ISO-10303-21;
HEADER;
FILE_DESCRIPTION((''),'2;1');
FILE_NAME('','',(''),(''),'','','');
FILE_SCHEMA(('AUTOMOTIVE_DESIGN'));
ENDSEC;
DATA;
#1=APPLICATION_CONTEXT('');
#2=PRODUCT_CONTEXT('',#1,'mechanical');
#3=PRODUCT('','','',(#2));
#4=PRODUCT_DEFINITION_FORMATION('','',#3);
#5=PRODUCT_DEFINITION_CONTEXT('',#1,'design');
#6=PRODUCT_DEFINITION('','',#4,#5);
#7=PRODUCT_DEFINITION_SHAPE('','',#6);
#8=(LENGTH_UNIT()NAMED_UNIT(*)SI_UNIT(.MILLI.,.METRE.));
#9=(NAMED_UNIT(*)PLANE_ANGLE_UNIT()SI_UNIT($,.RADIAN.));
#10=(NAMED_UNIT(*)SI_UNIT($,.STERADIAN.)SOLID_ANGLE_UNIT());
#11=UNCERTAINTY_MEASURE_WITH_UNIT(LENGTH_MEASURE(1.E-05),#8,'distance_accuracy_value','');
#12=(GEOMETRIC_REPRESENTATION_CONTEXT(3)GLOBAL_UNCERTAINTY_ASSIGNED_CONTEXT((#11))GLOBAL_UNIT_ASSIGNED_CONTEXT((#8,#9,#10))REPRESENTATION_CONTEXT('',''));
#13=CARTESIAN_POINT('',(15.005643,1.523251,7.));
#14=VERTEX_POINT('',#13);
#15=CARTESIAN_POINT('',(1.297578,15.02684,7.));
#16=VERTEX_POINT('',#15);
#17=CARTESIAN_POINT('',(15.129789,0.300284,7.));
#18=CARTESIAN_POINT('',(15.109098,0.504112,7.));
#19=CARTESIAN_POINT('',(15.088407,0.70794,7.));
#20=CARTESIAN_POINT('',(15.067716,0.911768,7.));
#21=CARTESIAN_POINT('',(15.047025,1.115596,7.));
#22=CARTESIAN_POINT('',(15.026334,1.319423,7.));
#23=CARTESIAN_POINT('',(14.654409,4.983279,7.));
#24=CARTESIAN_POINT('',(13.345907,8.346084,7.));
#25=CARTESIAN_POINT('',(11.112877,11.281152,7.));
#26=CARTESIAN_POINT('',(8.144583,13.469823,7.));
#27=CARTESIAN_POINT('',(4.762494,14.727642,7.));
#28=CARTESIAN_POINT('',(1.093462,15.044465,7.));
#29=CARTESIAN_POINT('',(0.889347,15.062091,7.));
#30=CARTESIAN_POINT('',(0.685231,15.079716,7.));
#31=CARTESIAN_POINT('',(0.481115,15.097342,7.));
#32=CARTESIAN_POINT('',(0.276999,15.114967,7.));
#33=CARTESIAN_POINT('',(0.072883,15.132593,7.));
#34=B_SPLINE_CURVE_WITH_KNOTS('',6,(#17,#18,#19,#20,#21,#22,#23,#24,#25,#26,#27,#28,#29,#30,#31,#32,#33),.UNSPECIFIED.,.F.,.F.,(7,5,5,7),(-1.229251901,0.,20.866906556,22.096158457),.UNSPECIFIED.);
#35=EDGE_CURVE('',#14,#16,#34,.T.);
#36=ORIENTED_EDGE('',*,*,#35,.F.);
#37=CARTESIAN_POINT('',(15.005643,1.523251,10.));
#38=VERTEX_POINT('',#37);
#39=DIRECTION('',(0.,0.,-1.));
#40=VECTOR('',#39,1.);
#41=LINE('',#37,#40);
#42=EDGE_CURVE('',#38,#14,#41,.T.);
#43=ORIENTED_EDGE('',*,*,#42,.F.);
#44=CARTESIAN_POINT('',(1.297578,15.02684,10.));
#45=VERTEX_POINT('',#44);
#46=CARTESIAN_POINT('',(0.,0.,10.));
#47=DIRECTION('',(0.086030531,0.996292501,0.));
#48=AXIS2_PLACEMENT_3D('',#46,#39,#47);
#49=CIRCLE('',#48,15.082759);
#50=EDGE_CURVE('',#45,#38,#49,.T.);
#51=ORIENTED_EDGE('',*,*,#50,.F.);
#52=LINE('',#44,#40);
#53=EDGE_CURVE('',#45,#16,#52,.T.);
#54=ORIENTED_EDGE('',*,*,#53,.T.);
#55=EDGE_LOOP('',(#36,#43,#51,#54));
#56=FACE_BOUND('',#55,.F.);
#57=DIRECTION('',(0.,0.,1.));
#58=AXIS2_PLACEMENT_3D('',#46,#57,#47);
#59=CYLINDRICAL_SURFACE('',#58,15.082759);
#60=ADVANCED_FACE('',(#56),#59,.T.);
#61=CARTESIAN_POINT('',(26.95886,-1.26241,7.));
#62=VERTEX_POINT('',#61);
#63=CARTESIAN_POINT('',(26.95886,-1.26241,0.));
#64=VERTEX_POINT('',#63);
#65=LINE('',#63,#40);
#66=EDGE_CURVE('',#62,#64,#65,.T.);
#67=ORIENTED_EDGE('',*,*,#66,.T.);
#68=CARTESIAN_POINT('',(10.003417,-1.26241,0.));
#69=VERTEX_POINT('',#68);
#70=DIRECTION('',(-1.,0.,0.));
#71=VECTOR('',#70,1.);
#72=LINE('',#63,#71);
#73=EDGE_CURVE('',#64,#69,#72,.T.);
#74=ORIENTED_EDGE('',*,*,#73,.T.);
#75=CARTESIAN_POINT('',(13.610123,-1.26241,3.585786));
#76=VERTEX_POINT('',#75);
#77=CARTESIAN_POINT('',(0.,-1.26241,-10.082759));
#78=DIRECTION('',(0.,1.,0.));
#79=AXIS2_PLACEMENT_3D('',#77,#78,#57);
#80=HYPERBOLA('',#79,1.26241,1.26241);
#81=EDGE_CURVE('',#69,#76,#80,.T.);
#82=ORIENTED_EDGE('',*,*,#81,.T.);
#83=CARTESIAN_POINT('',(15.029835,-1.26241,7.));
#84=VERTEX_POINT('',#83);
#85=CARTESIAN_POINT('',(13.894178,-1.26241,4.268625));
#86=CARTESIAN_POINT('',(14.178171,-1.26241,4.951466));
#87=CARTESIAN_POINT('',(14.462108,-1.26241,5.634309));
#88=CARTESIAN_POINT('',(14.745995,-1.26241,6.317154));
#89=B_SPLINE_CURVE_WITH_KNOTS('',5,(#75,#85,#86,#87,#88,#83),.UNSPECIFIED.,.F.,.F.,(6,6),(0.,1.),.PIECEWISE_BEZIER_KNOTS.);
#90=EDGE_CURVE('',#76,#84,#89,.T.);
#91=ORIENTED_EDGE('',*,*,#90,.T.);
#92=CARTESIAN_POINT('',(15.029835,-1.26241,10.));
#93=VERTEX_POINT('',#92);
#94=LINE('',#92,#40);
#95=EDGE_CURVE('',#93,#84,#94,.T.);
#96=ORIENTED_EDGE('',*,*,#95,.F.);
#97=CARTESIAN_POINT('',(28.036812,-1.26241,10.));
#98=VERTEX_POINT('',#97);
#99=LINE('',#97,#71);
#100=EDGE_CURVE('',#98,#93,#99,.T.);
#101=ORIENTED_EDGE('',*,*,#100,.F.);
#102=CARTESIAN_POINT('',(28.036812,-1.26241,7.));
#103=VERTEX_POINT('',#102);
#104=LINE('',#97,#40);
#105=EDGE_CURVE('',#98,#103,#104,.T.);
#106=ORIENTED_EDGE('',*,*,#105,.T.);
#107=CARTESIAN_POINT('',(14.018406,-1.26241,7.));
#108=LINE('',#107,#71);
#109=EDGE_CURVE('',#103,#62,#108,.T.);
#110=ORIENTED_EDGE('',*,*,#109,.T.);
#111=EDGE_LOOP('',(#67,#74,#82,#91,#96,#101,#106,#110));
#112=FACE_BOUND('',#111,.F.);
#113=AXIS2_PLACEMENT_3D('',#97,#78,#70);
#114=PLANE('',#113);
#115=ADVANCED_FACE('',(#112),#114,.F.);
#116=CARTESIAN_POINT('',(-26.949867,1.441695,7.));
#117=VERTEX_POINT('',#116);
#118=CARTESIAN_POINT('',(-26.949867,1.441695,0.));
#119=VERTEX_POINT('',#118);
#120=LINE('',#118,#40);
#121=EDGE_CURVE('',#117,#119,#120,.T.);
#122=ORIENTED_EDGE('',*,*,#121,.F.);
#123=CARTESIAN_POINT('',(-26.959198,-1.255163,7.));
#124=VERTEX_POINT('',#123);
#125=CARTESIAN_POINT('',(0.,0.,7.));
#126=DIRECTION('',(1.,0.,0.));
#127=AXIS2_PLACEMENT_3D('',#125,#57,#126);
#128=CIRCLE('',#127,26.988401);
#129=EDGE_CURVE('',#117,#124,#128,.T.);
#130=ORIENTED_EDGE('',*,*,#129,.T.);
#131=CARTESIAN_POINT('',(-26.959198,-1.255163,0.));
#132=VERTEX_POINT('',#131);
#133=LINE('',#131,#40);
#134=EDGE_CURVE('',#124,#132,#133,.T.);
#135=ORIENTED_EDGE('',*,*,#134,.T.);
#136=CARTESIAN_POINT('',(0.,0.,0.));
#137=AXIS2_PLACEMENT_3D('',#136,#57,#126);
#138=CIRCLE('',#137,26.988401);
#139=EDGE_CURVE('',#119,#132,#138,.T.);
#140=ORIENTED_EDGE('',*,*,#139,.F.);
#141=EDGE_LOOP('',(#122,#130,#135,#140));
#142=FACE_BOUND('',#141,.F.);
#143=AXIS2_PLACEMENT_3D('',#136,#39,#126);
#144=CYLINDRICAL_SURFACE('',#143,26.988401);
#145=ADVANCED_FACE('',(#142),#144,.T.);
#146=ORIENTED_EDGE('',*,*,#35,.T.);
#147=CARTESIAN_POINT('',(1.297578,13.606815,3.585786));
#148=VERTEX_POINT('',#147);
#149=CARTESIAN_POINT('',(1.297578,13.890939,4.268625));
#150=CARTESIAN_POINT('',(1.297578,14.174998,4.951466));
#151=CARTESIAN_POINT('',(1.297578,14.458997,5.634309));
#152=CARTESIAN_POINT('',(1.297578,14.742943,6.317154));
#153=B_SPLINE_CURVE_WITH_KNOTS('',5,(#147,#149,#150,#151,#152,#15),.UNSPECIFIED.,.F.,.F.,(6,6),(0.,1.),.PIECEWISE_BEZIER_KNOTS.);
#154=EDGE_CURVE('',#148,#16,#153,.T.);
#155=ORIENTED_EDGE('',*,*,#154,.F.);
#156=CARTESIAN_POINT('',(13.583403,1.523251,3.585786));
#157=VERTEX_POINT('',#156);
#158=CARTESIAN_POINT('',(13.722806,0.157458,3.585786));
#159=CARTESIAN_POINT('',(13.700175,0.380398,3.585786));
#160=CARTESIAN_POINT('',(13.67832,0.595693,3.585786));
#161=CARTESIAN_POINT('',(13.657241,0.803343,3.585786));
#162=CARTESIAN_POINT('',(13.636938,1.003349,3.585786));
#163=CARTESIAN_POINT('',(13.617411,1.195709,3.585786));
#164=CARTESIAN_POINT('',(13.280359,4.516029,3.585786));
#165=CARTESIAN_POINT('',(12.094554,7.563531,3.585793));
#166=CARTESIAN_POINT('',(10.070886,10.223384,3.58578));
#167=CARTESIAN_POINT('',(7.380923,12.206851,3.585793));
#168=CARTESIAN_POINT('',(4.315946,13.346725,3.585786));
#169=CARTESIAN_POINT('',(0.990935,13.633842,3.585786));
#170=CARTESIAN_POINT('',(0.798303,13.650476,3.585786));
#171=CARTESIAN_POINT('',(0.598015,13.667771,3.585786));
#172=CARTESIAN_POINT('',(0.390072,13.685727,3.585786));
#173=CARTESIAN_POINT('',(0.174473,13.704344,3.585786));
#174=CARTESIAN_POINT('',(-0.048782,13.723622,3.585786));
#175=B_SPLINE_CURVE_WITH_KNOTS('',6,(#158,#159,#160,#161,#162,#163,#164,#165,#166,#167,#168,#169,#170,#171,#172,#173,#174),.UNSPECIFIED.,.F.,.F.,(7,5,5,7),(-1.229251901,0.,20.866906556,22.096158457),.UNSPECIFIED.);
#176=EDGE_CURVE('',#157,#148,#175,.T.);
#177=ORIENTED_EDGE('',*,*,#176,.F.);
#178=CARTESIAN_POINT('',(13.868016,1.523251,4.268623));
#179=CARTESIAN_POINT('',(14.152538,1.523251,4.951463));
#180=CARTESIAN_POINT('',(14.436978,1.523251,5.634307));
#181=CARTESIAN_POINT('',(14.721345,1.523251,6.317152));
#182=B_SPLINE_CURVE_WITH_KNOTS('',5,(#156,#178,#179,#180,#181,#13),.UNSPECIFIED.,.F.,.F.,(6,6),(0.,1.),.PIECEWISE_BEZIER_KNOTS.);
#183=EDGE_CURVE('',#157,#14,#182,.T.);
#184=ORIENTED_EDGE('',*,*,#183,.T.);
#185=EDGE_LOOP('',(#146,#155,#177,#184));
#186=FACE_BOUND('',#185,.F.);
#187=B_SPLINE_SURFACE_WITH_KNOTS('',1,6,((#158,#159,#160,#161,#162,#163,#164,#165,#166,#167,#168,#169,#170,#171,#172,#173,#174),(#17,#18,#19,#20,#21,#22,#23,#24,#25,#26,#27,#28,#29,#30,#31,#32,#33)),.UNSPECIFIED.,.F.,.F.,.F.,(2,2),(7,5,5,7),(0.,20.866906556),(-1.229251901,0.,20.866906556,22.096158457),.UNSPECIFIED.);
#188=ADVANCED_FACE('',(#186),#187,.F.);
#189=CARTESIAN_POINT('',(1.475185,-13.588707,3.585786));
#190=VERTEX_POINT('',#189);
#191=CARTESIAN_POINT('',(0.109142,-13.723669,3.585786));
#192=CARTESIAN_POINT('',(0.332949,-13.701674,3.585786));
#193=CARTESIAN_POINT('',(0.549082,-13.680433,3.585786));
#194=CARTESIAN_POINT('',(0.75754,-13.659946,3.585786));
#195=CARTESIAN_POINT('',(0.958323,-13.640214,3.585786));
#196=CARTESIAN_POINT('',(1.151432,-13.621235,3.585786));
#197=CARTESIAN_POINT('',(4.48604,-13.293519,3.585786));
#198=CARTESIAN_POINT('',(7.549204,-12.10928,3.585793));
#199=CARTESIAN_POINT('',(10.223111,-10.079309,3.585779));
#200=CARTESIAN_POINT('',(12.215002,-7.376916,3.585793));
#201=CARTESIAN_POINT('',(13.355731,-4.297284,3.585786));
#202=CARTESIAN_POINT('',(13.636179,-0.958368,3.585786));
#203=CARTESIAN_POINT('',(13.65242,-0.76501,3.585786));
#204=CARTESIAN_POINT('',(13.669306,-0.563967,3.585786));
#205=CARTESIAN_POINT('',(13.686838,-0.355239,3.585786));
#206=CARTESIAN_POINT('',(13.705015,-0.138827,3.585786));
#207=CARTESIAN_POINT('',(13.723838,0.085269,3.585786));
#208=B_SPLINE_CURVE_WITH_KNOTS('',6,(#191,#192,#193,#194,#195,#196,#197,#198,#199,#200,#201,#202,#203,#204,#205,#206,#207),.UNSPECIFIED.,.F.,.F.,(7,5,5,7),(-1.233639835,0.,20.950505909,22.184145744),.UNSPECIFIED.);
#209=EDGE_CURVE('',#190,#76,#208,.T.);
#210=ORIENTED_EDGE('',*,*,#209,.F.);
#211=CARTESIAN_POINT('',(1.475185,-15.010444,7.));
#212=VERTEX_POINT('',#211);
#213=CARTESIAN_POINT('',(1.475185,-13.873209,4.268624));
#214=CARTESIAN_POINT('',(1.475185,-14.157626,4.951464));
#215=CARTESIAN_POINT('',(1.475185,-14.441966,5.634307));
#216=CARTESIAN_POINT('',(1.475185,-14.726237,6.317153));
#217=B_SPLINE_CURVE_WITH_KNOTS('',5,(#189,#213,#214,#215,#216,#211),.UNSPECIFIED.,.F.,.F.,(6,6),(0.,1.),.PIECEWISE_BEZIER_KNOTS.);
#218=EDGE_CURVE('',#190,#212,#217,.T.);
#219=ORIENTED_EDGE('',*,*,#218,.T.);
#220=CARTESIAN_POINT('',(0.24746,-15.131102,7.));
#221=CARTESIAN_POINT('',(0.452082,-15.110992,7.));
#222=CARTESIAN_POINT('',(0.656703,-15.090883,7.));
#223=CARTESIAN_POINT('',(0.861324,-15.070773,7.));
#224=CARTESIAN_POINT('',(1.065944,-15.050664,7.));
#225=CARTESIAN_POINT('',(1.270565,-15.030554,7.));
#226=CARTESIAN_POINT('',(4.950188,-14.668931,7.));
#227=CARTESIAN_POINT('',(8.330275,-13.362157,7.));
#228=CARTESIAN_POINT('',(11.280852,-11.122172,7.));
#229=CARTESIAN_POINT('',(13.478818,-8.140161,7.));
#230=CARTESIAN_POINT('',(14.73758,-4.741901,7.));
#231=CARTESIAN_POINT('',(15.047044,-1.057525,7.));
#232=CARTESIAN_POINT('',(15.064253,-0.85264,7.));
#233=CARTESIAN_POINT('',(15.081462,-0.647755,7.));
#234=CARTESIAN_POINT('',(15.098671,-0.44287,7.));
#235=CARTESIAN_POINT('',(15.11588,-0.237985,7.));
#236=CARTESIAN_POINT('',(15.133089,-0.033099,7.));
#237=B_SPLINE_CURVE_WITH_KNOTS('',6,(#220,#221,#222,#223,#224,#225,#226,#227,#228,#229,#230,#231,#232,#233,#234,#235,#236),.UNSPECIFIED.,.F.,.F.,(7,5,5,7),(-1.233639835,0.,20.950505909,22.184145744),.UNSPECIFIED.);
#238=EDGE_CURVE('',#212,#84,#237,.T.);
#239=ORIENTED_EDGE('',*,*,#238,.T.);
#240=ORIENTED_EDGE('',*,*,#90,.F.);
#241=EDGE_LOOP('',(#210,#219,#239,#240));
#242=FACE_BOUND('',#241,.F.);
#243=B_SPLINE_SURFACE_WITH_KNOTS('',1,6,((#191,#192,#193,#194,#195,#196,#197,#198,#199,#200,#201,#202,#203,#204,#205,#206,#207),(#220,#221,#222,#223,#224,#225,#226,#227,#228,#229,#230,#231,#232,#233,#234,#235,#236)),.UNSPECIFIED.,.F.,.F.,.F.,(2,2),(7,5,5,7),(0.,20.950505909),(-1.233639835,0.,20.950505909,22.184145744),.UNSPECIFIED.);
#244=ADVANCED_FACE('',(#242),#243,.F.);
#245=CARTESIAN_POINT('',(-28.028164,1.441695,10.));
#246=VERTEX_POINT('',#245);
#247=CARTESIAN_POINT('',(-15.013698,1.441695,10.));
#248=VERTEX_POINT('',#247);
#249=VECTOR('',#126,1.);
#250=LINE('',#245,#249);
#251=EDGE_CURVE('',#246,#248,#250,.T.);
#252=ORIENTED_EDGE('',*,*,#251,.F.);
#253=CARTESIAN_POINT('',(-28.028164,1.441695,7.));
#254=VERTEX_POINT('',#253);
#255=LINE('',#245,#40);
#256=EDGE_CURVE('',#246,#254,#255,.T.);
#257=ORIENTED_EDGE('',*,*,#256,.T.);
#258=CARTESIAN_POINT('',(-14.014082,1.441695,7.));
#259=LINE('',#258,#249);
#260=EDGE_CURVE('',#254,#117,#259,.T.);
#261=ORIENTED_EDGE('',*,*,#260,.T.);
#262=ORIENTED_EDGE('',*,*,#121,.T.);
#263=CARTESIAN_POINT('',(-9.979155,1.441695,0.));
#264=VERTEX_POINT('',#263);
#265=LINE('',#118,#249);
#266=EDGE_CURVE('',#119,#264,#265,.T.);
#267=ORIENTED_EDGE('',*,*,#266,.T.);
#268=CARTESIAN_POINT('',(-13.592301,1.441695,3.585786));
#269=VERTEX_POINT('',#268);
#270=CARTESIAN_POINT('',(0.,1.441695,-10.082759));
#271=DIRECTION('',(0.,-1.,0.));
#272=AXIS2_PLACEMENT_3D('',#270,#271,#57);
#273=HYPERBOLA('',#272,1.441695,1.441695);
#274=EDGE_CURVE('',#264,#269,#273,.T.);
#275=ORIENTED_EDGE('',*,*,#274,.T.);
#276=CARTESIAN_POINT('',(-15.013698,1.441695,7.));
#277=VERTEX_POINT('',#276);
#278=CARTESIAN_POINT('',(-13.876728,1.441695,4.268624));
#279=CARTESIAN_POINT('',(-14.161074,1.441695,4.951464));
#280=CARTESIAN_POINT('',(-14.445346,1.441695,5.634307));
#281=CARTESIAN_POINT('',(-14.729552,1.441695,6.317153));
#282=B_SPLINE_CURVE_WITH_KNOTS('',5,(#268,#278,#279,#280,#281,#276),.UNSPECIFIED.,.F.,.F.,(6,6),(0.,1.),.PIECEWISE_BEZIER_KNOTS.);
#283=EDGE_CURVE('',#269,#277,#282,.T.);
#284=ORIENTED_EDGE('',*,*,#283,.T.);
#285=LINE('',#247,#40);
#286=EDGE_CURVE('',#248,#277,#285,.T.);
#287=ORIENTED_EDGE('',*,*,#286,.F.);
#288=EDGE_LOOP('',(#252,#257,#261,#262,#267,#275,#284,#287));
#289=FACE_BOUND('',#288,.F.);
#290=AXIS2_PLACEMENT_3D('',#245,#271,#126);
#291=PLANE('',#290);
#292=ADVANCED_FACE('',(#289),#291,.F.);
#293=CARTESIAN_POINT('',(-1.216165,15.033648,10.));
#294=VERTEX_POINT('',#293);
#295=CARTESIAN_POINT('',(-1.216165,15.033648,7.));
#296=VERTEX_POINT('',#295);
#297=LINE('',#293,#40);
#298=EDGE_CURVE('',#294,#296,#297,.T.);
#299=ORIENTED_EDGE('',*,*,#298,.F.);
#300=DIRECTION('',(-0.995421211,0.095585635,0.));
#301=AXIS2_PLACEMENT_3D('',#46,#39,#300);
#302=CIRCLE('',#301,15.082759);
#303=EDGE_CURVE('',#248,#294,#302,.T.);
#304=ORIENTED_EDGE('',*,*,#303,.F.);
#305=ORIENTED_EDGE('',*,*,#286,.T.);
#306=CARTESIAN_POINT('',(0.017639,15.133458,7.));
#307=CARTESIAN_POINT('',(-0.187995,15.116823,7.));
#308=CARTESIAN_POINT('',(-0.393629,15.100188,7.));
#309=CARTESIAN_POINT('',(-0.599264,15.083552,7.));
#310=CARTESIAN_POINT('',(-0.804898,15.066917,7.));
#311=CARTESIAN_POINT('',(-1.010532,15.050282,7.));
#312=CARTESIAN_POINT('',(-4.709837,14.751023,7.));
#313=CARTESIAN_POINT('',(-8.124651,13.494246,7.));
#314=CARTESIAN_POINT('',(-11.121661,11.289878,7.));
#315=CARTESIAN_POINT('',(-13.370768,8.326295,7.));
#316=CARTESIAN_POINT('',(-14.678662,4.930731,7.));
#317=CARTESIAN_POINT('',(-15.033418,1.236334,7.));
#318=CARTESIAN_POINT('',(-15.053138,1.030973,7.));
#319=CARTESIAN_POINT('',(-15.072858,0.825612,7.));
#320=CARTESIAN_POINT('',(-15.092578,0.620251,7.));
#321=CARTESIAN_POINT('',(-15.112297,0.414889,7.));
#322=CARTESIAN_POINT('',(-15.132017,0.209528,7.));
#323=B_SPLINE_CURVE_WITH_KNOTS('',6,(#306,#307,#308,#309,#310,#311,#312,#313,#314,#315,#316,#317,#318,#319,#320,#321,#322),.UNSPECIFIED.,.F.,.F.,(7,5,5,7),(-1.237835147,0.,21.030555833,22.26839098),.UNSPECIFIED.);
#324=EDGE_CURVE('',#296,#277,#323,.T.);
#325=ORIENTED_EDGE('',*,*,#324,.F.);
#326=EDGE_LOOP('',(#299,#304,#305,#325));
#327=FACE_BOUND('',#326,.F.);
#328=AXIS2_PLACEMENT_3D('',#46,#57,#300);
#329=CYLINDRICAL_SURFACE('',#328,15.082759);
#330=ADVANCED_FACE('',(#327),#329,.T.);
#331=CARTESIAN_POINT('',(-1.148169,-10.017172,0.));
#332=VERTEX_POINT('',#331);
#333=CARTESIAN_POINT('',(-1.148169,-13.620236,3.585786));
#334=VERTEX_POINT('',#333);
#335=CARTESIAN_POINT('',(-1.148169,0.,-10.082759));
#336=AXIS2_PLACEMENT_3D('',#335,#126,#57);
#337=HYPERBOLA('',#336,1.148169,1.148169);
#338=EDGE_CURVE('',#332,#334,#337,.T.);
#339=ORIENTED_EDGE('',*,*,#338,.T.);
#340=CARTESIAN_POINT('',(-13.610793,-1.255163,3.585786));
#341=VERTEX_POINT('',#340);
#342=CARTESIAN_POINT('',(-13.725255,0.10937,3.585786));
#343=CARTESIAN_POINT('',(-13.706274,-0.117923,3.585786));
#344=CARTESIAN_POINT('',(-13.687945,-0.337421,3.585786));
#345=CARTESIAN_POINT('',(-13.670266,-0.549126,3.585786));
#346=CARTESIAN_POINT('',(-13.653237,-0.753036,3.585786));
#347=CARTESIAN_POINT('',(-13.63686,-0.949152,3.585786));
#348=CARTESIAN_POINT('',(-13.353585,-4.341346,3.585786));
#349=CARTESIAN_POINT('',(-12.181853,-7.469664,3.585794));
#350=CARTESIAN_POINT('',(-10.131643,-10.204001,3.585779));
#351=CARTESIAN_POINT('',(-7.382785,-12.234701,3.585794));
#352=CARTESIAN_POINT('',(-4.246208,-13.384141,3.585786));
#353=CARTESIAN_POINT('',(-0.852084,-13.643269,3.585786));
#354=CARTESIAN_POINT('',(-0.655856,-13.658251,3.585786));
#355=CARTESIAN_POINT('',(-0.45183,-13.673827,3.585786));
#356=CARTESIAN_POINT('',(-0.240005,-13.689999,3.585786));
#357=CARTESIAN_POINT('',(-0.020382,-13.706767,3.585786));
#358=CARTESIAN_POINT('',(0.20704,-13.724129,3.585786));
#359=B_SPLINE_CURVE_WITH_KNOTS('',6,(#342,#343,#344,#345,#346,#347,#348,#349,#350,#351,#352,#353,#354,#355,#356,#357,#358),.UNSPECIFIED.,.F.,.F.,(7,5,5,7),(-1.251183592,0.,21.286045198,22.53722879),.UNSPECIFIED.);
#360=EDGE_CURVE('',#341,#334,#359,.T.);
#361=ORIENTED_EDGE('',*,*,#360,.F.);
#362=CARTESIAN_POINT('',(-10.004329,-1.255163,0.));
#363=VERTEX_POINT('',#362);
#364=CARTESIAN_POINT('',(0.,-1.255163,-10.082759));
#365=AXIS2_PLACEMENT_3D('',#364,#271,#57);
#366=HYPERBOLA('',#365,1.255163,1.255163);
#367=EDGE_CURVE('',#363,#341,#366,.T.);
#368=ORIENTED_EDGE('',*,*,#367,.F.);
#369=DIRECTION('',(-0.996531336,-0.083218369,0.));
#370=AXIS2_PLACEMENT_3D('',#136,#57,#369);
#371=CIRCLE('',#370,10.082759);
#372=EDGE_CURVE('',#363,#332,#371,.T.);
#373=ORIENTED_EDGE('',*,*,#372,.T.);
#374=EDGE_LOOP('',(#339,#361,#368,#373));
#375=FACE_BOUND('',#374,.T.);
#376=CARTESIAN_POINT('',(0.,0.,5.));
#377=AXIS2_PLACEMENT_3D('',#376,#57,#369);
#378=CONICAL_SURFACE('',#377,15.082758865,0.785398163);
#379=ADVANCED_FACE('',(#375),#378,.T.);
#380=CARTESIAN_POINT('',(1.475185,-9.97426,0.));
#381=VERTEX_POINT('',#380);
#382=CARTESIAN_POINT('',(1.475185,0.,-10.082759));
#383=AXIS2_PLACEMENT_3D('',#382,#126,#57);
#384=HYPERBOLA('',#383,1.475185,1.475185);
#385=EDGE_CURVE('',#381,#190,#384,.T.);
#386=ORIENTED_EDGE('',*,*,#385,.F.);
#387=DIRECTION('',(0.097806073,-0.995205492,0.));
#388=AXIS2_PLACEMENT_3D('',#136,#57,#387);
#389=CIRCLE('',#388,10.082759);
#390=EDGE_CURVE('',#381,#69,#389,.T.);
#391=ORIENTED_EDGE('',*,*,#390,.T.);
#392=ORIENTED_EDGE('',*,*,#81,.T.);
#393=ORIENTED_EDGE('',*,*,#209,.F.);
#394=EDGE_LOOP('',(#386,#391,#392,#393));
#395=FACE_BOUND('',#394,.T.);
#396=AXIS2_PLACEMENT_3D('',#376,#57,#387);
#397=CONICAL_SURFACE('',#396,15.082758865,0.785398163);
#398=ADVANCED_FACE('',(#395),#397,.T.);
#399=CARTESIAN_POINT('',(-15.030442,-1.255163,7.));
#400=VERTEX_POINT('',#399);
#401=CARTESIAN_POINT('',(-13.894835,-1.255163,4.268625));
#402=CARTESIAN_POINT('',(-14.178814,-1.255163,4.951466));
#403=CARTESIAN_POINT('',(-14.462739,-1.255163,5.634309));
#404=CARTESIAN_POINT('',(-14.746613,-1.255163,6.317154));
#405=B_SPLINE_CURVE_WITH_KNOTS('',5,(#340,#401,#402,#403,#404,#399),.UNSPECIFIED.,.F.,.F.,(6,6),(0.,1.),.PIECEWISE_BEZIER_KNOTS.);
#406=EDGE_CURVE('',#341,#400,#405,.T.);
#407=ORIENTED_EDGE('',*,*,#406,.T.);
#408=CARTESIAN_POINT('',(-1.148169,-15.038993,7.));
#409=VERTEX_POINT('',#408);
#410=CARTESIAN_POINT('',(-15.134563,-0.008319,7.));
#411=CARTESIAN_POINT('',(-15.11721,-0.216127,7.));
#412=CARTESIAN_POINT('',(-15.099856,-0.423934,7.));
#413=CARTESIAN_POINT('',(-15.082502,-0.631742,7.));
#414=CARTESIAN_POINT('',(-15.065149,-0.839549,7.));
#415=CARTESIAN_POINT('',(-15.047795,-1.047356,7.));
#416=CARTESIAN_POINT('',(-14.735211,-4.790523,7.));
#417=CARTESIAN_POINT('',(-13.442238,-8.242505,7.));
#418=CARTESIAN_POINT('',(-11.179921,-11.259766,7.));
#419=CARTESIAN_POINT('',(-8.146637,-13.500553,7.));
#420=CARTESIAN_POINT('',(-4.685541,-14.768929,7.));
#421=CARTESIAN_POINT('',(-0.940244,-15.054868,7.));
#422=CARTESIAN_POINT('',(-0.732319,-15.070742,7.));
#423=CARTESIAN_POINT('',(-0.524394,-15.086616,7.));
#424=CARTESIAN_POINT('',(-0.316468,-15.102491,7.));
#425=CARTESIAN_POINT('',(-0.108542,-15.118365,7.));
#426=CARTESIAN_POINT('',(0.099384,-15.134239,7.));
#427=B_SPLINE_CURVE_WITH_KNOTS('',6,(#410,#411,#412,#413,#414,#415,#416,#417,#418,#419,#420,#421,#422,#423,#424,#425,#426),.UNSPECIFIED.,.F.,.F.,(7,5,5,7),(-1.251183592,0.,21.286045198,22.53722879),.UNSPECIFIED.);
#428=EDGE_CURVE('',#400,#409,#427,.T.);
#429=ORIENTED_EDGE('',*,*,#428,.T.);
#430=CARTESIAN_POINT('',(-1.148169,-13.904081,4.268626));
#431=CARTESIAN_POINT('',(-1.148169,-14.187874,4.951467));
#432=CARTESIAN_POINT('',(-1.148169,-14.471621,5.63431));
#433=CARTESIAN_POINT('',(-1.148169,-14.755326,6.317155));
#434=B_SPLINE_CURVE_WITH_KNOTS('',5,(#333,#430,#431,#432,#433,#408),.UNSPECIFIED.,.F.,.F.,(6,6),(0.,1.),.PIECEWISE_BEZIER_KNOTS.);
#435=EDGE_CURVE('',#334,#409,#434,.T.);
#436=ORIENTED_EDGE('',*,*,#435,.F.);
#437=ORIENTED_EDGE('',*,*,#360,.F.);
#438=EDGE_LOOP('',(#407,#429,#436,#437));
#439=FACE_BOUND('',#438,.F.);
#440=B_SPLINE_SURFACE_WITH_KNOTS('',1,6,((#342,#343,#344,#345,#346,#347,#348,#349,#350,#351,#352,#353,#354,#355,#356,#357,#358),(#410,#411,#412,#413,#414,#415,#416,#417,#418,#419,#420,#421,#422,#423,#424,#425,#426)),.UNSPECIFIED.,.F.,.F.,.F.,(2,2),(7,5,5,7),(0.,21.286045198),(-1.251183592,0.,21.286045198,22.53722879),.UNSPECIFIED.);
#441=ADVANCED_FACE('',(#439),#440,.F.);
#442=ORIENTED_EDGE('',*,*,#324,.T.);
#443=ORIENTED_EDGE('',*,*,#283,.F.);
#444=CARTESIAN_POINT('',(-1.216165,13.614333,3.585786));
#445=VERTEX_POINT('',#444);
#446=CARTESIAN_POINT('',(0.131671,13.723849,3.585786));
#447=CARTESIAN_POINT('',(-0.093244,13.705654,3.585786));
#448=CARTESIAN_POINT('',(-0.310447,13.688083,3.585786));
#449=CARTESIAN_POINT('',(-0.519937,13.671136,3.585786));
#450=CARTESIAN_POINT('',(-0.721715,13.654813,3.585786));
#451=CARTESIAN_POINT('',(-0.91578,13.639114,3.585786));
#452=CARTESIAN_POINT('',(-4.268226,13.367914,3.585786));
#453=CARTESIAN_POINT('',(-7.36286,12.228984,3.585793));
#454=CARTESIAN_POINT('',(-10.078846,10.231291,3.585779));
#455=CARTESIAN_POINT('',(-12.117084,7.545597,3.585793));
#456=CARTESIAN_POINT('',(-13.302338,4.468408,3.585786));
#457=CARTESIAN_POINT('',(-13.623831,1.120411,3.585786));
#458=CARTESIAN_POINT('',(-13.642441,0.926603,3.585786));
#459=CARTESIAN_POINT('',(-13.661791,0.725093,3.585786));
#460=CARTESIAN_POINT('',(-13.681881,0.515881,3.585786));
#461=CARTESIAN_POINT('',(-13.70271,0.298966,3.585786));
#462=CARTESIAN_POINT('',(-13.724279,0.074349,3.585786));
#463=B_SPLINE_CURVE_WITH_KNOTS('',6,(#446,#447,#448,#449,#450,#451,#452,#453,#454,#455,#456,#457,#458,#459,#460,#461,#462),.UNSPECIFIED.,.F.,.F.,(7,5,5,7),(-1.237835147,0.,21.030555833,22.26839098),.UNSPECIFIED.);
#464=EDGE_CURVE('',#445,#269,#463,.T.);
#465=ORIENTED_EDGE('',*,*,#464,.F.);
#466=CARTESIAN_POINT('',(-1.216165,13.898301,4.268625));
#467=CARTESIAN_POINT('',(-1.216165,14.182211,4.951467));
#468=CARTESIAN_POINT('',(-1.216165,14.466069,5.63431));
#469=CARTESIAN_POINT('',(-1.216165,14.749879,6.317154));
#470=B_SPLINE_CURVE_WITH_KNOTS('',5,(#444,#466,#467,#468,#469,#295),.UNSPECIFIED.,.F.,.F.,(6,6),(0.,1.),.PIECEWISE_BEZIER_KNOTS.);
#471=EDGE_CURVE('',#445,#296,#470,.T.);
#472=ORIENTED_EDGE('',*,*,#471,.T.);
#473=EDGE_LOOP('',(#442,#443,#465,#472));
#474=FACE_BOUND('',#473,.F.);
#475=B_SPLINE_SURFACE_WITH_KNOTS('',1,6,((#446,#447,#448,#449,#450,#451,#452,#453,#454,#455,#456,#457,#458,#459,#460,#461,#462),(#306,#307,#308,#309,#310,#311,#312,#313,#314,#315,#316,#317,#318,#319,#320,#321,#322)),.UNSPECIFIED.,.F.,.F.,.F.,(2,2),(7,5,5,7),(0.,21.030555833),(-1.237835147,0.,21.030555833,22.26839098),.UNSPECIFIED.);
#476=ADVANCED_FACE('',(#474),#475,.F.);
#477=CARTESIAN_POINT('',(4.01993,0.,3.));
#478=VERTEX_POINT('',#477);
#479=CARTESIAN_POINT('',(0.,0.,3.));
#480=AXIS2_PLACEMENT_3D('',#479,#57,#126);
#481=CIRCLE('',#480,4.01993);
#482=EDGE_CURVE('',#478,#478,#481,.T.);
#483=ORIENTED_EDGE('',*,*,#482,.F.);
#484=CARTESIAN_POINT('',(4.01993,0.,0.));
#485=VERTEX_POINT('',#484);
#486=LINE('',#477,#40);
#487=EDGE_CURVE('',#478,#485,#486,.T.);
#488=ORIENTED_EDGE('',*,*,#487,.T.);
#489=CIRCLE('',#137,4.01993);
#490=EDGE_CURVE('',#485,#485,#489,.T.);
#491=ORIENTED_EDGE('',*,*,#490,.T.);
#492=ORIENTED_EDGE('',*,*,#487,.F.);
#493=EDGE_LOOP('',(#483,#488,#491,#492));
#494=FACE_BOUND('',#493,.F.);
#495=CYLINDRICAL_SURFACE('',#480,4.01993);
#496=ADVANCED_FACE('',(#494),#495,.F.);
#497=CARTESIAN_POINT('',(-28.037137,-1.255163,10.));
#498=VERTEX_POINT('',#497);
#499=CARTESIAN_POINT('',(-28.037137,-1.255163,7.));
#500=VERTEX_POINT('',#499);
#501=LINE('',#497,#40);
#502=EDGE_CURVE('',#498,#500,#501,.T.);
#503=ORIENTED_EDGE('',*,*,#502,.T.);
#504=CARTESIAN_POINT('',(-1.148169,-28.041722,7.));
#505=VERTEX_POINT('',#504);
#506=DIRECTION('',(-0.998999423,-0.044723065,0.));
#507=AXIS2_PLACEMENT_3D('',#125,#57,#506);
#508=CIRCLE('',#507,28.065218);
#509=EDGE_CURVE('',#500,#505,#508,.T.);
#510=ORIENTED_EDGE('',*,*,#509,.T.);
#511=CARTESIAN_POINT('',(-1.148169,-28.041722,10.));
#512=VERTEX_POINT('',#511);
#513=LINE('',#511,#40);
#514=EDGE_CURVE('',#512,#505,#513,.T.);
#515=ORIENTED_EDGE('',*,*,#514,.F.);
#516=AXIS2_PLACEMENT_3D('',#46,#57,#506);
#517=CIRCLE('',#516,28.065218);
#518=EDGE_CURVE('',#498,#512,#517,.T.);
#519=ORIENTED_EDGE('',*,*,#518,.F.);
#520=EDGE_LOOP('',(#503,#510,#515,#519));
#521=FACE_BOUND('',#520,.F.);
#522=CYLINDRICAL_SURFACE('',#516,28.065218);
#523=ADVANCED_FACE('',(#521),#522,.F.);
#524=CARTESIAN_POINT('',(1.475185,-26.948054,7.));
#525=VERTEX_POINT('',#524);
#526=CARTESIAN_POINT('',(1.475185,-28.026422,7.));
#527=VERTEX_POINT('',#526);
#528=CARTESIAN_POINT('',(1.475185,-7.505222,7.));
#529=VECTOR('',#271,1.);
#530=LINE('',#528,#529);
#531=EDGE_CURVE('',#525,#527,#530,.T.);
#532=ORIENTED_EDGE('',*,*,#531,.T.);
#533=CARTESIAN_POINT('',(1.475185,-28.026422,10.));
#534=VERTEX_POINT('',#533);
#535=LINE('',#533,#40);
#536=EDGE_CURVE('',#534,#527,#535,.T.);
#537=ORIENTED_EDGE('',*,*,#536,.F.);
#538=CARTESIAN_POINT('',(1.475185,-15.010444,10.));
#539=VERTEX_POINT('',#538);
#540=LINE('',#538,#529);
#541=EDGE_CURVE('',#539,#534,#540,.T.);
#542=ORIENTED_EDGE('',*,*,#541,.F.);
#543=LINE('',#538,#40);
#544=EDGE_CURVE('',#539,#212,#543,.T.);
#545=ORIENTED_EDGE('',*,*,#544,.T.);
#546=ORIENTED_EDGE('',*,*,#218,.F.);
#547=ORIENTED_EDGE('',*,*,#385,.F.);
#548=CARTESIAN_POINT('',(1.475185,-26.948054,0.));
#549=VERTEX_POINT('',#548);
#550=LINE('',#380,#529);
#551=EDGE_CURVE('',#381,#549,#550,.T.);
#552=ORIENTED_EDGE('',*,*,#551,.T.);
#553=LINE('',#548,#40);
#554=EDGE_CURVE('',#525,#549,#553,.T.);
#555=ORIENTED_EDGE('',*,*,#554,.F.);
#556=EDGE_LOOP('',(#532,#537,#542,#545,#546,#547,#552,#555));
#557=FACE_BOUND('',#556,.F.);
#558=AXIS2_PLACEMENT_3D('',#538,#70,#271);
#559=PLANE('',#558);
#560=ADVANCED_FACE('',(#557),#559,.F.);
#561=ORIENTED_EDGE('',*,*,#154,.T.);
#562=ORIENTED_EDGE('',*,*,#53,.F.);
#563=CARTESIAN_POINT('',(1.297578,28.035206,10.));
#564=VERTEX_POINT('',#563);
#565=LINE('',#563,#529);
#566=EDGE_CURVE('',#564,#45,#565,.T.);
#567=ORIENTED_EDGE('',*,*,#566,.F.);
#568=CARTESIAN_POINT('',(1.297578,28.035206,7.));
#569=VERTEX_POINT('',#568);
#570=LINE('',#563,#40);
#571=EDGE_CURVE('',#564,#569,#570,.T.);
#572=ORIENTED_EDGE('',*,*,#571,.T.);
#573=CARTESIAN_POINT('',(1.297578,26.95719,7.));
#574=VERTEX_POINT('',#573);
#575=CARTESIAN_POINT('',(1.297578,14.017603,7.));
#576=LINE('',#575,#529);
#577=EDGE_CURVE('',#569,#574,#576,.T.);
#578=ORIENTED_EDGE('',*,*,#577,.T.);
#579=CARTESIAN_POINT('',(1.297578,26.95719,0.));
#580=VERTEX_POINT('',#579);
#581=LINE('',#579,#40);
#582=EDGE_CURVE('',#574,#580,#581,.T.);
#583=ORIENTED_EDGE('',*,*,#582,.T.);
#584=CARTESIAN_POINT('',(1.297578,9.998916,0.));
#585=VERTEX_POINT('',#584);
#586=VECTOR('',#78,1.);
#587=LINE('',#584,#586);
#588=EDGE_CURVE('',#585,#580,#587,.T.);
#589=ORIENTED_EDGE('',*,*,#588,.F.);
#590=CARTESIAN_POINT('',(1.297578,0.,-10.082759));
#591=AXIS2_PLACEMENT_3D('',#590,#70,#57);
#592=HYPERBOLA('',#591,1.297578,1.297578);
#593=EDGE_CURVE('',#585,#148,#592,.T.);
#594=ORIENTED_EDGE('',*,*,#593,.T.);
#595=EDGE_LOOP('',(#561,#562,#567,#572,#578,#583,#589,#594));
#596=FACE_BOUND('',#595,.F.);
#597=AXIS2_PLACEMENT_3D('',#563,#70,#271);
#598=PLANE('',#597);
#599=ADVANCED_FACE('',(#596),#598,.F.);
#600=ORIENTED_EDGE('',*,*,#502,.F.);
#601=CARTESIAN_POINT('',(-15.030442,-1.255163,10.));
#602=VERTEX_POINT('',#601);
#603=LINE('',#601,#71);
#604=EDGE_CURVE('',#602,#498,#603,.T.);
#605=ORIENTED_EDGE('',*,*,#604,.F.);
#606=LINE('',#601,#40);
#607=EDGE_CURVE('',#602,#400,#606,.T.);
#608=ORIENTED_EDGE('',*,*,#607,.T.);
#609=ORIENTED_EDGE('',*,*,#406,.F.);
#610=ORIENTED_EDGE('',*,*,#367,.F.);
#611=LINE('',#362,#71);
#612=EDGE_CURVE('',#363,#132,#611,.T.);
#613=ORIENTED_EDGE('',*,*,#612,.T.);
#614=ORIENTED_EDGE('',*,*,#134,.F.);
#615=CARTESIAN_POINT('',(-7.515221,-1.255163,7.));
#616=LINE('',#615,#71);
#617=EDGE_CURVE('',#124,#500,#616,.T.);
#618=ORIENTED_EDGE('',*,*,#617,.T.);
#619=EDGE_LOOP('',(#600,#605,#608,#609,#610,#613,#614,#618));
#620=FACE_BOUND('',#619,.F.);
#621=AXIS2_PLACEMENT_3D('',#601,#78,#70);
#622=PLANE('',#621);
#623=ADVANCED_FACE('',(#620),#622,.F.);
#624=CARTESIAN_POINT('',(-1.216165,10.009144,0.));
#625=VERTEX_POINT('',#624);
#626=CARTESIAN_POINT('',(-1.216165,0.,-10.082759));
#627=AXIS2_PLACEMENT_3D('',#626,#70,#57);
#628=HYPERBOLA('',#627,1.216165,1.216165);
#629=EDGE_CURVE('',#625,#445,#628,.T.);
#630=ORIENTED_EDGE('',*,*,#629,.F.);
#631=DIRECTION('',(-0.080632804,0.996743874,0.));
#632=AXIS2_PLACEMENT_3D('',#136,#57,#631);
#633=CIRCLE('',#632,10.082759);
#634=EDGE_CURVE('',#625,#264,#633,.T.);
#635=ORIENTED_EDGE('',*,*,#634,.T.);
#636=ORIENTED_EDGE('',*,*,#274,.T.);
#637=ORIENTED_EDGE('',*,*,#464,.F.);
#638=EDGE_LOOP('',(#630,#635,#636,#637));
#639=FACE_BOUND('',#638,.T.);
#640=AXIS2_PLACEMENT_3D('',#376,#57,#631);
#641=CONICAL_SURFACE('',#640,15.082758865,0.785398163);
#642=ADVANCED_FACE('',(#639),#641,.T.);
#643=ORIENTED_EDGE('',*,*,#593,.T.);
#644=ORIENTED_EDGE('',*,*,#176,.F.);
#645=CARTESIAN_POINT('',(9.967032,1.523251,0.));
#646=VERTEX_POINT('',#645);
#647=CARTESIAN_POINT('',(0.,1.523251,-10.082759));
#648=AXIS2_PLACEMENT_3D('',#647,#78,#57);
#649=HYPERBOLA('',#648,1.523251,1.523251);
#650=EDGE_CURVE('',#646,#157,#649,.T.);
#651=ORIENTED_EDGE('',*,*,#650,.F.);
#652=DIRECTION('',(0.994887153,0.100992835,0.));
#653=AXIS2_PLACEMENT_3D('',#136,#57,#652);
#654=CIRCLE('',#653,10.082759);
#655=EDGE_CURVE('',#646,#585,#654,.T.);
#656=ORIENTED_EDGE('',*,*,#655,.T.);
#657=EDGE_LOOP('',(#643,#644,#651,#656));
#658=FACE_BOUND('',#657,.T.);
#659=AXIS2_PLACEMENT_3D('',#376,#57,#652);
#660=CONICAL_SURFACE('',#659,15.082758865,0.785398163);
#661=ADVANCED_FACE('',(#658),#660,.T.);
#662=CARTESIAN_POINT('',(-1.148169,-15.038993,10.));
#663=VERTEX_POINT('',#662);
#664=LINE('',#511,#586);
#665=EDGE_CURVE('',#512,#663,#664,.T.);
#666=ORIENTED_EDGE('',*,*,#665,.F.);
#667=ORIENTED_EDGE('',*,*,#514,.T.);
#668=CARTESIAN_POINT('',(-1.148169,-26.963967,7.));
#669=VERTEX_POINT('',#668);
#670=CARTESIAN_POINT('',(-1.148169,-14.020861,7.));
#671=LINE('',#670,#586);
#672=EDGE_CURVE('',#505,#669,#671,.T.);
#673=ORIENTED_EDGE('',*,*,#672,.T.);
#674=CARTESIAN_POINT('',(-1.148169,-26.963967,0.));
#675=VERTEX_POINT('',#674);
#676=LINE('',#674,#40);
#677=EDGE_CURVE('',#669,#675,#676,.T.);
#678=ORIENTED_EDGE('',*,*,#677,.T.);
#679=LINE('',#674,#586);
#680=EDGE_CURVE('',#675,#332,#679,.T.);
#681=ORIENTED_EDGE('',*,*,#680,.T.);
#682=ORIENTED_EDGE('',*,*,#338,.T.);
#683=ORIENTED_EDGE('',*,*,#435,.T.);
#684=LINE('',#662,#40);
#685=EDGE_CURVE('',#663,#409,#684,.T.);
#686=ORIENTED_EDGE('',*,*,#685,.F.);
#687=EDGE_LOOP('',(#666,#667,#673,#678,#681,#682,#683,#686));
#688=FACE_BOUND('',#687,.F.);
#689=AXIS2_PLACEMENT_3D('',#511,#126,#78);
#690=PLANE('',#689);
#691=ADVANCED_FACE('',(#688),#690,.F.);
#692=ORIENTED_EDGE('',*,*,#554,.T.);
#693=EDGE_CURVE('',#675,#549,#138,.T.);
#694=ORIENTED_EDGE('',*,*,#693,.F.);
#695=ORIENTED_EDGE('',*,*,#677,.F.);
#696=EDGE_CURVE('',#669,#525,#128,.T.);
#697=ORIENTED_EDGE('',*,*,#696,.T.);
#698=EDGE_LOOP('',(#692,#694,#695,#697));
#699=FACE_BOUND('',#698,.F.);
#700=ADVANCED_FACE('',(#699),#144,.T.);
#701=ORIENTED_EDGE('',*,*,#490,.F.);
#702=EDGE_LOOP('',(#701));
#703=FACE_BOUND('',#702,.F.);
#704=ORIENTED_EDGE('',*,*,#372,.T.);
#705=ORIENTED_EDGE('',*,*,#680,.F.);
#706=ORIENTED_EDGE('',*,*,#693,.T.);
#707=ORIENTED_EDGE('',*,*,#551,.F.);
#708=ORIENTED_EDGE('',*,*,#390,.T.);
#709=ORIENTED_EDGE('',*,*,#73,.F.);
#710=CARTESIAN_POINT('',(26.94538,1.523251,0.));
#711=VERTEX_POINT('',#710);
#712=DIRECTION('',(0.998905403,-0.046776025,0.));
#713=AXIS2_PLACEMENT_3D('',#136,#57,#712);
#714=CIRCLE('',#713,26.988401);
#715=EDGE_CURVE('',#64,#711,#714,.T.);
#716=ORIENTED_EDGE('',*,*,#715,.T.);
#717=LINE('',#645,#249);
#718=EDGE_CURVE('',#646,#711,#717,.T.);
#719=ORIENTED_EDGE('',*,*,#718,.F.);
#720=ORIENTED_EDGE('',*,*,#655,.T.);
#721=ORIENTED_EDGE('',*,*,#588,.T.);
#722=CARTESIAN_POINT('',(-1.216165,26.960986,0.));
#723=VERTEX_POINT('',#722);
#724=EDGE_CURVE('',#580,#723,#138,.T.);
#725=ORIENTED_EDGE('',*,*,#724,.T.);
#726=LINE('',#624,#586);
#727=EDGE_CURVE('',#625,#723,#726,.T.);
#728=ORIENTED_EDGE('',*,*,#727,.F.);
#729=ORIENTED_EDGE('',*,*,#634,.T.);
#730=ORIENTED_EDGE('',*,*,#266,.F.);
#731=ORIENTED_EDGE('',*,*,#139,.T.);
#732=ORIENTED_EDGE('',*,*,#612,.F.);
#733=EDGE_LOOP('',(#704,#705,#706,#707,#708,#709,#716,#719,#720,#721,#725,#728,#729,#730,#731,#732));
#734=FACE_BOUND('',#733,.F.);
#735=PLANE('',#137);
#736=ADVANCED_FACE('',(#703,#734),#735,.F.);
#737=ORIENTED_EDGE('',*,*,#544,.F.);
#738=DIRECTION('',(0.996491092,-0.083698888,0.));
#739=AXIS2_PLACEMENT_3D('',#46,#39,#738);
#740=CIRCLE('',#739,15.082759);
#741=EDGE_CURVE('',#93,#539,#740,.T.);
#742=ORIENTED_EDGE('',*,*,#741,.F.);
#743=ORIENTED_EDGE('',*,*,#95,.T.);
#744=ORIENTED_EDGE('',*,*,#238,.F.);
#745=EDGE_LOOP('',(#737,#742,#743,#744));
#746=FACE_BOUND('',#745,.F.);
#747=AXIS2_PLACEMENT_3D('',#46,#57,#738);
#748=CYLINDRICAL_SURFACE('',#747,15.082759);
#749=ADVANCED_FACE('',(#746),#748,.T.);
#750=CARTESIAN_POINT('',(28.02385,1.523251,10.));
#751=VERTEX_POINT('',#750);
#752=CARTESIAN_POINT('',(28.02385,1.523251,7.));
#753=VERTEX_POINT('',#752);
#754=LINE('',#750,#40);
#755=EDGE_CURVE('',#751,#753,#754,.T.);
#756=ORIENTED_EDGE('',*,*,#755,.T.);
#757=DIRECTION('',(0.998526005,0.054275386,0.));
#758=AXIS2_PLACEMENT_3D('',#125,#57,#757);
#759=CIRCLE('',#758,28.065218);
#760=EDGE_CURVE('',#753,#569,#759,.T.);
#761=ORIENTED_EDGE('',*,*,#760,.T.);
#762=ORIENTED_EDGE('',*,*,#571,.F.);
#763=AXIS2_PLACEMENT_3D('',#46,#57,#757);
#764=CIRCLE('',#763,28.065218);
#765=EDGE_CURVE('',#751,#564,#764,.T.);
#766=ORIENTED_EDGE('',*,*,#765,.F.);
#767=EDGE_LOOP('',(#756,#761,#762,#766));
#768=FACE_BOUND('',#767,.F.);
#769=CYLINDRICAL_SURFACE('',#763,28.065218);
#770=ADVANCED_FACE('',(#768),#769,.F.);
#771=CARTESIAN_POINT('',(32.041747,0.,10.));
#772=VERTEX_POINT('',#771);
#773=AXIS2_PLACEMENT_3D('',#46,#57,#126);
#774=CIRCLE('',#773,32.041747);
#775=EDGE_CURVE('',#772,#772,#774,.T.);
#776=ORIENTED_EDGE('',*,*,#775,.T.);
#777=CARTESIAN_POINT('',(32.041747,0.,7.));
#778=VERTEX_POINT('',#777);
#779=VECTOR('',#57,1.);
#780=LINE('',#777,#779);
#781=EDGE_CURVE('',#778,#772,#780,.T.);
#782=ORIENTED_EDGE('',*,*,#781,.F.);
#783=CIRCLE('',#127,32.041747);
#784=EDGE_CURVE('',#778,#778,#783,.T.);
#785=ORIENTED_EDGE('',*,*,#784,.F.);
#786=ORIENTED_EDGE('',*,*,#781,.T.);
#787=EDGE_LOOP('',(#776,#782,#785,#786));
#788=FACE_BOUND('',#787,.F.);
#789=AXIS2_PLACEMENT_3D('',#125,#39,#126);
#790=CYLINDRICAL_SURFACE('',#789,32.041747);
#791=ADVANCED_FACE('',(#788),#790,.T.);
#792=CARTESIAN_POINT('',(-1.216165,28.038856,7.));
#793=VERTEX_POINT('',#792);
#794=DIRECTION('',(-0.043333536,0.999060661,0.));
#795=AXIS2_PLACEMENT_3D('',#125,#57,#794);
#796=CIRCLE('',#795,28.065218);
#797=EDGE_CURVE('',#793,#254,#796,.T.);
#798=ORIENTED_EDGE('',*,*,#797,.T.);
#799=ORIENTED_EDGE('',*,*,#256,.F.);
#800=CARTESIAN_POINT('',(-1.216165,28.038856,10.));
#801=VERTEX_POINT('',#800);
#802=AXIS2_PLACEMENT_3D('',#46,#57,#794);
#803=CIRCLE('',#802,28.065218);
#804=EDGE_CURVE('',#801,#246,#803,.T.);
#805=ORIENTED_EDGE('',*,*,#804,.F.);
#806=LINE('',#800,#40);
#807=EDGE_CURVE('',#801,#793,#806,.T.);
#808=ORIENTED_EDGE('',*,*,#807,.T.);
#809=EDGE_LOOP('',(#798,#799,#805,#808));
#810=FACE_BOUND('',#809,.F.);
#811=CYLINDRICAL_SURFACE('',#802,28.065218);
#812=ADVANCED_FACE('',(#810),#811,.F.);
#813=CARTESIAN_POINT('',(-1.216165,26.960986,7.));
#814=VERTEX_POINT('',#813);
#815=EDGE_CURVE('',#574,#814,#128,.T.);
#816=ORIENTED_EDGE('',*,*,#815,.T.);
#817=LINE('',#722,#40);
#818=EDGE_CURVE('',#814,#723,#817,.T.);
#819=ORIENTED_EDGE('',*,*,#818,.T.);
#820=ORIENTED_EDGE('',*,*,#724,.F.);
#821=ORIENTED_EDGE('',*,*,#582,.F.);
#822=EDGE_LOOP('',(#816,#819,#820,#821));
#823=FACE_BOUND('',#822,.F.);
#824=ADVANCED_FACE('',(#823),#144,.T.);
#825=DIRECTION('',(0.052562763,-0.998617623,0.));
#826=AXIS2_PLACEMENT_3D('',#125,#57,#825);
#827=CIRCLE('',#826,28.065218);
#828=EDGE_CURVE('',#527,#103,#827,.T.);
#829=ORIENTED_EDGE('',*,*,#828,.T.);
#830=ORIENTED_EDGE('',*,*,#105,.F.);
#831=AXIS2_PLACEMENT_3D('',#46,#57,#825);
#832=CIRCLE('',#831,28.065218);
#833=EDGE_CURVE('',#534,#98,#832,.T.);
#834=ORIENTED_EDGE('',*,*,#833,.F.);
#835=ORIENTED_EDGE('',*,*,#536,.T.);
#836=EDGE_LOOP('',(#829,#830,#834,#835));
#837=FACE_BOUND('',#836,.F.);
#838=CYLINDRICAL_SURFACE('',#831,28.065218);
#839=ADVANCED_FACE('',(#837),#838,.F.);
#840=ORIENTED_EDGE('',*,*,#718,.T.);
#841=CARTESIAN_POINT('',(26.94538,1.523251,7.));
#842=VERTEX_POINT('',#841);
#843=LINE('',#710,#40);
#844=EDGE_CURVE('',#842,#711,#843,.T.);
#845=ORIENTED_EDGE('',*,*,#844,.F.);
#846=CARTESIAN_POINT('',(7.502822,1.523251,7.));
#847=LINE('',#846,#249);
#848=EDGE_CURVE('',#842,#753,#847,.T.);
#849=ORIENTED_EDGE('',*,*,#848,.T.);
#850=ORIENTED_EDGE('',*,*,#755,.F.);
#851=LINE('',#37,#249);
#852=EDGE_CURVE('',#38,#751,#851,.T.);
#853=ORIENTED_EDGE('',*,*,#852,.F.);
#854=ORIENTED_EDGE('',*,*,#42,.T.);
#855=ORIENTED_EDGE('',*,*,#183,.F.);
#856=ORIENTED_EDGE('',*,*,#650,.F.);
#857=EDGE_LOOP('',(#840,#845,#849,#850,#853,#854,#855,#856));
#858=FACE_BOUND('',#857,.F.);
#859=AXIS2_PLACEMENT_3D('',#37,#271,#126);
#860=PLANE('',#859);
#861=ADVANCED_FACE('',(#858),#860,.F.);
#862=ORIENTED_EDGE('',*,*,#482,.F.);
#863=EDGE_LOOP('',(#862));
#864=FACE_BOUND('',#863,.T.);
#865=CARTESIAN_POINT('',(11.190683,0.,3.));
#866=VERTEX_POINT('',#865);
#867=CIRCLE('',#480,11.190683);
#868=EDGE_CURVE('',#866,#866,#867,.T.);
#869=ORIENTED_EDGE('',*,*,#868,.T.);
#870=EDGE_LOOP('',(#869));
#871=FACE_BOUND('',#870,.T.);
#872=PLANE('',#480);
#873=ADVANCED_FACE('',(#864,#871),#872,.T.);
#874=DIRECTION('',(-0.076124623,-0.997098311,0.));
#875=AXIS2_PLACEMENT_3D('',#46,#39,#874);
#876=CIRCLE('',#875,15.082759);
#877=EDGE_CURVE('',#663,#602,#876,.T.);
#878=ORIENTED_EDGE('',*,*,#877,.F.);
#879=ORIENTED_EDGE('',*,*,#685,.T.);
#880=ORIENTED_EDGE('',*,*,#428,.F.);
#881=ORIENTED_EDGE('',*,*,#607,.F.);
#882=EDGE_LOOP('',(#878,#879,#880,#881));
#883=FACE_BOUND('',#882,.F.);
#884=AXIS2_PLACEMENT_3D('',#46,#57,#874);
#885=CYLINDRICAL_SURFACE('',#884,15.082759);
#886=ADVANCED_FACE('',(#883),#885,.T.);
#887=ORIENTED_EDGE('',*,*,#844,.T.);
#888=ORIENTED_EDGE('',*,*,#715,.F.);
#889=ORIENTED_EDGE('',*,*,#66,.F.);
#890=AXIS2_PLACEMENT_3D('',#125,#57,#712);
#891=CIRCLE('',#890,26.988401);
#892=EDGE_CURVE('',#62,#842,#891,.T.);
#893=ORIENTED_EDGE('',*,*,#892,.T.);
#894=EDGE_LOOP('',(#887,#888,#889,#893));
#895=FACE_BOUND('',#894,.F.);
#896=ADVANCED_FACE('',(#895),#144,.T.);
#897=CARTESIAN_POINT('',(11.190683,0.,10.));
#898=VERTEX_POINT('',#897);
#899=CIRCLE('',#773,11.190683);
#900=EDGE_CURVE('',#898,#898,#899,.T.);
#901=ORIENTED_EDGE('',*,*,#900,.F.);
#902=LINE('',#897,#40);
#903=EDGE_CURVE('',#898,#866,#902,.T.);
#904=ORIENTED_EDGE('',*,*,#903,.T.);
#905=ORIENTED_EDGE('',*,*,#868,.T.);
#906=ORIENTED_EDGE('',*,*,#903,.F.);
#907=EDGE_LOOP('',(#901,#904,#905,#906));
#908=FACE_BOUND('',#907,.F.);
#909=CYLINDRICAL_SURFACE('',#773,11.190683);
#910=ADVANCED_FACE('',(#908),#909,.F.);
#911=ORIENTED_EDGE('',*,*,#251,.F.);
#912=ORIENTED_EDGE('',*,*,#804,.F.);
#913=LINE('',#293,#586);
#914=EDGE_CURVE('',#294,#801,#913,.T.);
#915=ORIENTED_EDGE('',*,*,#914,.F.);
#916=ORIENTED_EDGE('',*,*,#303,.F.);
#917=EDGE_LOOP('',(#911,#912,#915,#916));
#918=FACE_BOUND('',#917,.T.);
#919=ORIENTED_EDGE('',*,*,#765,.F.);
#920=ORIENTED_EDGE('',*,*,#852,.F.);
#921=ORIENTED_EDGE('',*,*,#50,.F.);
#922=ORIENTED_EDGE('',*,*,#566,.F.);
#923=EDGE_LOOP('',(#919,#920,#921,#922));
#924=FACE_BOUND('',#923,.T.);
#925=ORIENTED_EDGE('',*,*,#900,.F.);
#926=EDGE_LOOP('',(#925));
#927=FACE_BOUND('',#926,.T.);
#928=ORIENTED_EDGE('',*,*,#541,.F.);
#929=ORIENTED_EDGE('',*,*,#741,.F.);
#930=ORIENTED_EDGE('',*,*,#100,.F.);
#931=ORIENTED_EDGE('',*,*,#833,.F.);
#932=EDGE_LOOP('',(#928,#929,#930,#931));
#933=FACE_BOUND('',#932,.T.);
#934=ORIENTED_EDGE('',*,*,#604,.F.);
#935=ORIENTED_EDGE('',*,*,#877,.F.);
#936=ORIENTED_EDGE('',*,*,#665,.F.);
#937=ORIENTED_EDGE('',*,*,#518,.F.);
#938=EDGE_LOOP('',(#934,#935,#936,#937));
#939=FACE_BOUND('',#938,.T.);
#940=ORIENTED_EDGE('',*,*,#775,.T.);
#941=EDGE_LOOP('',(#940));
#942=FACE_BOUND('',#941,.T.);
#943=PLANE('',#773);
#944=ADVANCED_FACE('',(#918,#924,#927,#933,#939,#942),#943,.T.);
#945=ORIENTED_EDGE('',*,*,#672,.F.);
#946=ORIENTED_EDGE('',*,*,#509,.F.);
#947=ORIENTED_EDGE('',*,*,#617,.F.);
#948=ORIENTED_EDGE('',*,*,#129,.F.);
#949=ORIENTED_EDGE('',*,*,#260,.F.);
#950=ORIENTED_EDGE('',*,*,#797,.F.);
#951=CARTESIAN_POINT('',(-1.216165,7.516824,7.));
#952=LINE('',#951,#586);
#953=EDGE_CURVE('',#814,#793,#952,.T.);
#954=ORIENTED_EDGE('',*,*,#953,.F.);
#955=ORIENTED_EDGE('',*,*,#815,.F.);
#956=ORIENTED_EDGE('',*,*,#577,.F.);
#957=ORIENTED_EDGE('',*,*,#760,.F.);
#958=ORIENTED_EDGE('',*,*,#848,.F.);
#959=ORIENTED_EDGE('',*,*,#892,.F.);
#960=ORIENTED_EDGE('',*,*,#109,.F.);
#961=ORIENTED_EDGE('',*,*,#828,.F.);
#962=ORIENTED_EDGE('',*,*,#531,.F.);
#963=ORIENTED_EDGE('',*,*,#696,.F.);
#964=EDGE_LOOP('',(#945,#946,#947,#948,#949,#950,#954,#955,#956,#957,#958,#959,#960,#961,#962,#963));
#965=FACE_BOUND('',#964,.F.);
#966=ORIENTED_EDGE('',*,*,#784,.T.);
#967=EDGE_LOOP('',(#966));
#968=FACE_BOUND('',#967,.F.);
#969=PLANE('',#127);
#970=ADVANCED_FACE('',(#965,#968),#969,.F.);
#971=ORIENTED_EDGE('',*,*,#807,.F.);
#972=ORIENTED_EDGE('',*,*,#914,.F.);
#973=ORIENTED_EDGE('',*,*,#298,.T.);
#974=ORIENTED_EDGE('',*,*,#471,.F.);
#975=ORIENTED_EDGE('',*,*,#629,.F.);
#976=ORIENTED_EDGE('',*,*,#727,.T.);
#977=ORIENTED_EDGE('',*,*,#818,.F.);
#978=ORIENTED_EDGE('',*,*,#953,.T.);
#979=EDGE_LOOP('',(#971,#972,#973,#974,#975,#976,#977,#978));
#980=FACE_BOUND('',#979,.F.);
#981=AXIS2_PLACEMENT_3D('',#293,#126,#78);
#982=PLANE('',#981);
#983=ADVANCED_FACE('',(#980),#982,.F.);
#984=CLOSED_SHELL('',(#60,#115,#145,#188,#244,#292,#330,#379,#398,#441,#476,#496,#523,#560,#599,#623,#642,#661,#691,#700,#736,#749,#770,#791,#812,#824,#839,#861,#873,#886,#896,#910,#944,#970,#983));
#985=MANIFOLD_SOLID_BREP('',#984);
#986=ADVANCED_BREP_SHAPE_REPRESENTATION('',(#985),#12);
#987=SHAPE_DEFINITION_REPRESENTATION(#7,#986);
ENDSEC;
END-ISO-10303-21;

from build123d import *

# Parameters (mm, degrees)
F0_R     = 26.9884014256
F1_DEPTH = 7
F2_R     = 32.0417466588
F2_R_2   = 26.9884014256
F3_DEPTH = 3
F4_R     = 11.1906834264
F5_DEPTH = 7
F6_R     = 4.0199304585
F7_DEPTH = 25
F9_DEPTH = 25
F10_SIZE = 5
F11_SIZE = 2


with BuildPart() as f1:
    # F0 (on Top) → F1 (new body)
    with BuildSketch(Plane.XY):
        Circle(F0_R)
    extrude(amount=F1_DEPTH)

    # F2 (on face) → F3 (join)
    with BuildSketch(Plane.XY.offset(7)):
        Circle(F2_R)
        Circle(F2_R_2, mode=Mode.SUBTRACT)
        Circle(F2_R_2)
    extrude(amount=F3_DEPTH)

    # F4 (on face) → F5 (cut)
    with BuildSketch(Plane.XY.offset(10)):
        Circle(F4_R)
    extrude(amount=-F5_DEPTH, mode=Mode.SUBTRACT)

    # F6 (on face) → F7 (cut)
    with BuildSketch(Plane.XY.offset(3)):
        Circle(F6_R)
    extrude(amount=-F7_DEPTH, mode=Mode.SUBTRACT)

    # F8 (on face) → F9 (cut)
    with BuildSketch(Plane.XY.offset(10)):
        with BuildLine():
            ThreePointArc((-15.0136980872, 1.4416950877), (-10.584772446, 10.7448688798), (-1.2161651409, 15.0336475058))
            Line((-1.2161651409, 15.0336475058), (-1.2161651409, 28.0388555672))
            ThreePointArc((-1.2161651409, 28.0388555672), (-19.7651192157, 19.9247720578), (-28.0281643074, 1.4416950877))
            Line((-28.0281643074, 1.4416950877), (-15.0136980872, 1.4416950877))
        make_face()
        with BuildLine():
            ThreePointArc((1.2975777549, 15.0268395529), (10.5846814228, 10.7449585461), (15.0056430278, 1.5232505708))
            Line((15.0056430278, 1.5232505708), (28.0238503219, 1.5232505708))
            ThreePointArc((28.0238503219, 1.5232505708), (19.7650570518, 19.9248337234), (1.2975777549, 28.0352059228))
            Line((1.2975777549, 28.0352059228), (1.2975777549, 15.0268395529))
        make_face()
        with BuildLine():
            ThreePointArc((15.0298348497, -1.262410143), (10.7403927, -10.5893144079), (1.4751854085, -15.0104444634))
            Line((1.4751854085, -15.0104444634), (1.4751854085, -28.0264215906))
            ThreePointArc((1.4751854085, -28.0264215906), (19.9202803133, -19.7696462135), (28.0368115127, -1.262410143))
            Line((28.0368115127, -1.262410143), (15.0298348497, -1.262410143))
        make_face()
        with BuildLine():
            ThreePointArc((-1.1481693356, -15.038993389), (-10.6271050963, -10.7030020205), (-15.0304418379, -1.2551625933))
            Line((-15.0304418379, -1.2551625933), (-28.0371369086, -1.2551625933))
            ThreePointArc((-28.0371369086, -1.2551625933), (-19.8072075166, -19.8829326197), (-1.1481693356, -28.0417222428))
            Line((-1.1481693356, -28.0417222428), (-1.1481693356, -15.038993389))
        make_face()
    extrude(amount=-F9_DEPTH, mode=Mode.SUBTRACT)

    # F10
    f10_edges = [f1.edges().sort_by_distance(p)[0] for p in [
        (-10.584772, 10.744869, 0),
        (10.584681, 10.744959, 0),
        (-10.627105, -10.703002, 0),
        (10.740393, -10.589314, 0),
    ]]
    chamfer(f10_edges, length=F10_SIZE)

    # F11
    f11_edges = [f1.edges().sort_by_distance(p)[0] for p in [
        (10.740393, -10.589314, 5),
        (-10.627105, -10.703002, 5),
        (10.584681, 10.744959, 5),
        (-10.584772, 10.744869, 5),
    ]]
    chamfer(f11_edges, length=F11_SIZE)


solid = f1.part
